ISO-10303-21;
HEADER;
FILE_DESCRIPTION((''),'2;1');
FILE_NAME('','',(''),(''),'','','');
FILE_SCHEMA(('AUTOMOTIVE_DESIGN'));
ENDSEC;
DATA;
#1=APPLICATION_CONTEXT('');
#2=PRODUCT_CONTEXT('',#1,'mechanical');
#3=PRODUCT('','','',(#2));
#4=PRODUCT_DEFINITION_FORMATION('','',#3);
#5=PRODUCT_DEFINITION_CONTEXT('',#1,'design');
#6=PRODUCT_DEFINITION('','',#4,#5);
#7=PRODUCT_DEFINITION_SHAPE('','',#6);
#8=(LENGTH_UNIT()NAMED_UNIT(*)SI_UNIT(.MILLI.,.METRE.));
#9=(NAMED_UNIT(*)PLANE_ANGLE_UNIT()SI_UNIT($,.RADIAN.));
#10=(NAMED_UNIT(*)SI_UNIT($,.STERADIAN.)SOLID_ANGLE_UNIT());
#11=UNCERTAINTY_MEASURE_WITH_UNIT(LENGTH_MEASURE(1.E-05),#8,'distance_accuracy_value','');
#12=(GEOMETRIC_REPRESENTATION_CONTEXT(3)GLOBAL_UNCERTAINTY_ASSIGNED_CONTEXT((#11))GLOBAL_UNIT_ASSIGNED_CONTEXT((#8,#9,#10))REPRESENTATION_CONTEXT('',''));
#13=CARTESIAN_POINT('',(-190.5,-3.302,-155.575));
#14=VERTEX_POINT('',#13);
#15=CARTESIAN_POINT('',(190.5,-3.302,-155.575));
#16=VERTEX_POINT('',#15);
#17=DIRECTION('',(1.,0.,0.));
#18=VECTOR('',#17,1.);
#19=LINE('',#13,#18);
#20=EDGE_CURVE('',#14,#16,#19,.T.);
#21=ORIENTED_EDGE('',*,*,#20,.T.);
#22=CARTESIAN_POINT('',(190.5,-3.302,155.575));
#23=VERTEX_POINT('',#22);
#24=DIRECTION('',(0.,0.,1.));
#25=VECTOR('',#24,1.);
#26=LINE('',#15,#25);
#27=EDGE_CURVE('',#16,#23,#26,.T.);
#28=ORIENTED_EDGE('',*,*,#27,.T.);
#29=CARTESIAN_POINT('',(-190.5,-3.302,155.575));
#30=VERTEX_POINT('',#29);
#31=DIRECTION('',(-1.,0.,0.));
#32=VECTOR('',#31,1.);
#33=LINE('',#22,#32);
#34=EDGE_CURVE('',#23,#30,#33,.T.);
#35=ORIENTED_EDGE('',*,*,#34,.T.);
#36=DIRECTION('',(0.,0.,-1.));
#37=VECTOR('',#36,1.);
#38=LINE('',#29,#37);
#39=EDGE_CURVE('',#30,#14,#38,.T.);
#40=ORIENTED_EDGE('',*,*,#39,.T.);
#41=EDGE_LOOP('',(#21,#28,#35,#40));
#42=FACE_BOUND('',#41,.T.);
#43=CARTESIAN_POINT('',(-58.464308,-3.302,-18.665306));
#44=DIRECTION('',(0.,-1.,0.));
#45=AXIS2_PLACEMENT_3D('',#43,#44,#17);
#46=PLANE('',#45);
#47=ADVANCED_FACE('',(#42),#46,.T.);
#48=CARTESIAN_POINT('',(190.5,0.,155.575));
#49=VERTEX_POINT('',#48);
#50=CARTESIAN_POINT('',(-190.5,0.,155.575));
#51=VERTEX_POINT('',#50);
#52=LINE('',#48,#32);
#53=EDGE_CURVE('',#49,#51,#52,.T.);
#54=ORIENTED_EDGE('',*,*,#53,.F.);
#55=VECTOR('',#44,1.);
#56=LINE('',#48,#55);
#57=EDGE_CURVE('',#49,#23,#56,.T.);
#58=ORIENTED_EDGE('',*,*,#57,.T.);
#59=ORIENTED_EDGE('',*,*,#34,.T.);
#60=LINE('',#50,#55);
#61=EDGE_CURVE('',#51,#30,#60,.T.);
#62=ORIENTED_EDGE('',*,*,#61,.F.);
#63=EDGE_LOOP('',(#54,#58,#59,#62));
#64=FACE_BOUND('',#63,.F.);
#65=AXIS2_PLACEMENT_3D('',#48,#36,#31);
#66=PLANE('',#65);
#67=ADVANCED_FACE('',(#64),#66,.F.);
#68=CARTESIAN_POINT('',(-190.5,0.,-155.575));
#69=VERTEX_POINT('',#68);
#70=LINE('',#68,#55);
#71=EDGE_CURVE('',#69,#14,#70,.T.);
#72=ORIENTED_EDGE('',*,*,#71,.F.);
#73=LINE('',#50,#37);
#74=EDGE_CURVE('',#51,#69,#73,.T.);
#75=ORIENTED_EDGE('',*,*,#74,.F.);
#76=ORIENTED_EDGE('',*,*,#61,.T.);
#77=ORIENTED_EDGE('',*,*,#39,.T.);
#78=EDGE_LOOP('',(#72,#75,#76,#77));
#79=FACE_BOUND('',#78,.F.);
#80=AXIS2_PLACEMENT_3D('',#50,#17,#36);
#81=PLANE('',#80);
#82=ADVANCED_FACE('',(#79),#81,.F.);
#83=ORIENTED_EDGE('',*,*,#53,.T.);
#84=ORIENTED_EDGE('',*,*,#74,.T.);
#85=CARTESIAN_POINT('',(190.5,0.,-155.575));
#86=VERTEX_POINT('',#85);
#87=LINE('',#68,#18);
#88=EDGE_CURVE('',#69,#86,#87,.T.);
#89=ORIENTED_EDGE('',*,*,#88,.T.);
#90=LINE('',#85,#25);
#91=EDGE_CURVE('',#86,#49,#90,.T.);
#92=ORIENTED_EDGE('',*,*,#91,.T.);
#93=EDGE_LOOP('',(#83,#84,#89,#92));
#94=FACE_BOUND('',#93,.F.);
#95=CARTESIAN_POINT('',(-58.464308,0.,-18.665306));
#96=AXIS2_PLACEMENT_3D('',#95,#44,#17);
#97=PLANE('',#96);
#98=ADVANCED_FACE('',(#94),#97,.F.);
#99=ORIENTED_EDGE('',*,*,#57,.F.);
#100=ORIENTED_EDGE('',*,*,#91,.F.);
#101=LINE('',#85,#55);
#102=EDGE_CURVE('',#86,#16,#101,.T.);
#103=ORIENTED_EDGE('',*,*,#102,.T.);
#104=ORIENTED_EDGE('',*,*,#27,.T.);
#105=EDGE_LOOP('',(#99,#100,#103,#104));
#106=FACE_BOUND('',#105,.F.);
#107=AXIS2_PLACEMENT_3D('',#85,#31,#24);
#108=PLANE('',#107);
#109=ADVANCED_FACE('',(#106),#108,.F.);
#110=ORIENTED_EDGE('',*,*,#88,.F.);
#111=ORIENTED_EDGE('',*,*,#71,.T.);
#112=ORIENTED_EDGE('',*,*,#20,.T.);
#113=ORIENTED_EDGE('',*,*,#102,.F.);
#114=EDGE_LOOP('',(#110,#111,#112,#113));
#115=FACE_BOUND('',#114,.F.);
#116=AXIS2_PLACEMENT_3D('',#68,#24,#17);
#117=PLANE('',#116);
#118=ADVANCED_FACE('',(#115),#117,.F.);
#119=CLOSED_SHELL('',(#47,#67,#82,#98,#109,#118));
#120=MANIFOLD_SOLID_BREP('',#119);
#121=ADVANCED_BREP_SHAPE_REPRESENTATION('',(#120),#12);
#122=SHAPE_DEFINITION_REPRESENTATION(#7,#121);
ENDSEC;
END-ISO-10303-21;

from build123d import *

# Parameters (mm, degrees)
F0_W     = 22.6885974407
F0_H     = 22.1197940409
F0_W_2   = 22.4054604769
F0_H_2   = 20.4182658345
F0_W_3   = 49.8421652913
F0_H_3   = 18.7167446129
F0_W_4   = 21.0188105702
F0_H_4   = 20.4182639718
F0_H_5   = 17.01522246
F0_H_6   = 21.2690271437
F0_H_7   = 22.915400815
F0_W_5   = 24.2707803845
F0_H_8   = 22.1197889186
F0_H_9   = 22.9705497622
F0_H_10  = 16.1644592881
F0_H_11  = 21.2690234184
F0_H_12  = 22.9705572128
F1_DEPTH = 3.302


with BuildPart() as f1:
    # F0 (on Front) → F1 (new body)
    with BuildSketch(Plane.XZ):
        Polygon((-47.1492672342, -29.7174975276), (-47.5814542907, -7.597708609), (-69.7490387884, -7.597708609), (-69.3785926643, -29.7174975276), align=None)
        Polygon((190.5, 91.0905823112), (190.5, 112.3596057296), (167.3408431252, 112.3596057296), (167.4002093941, 91.0905823112), align=None)
        Polygon((31.8565960935, -132.659599185), (31.2031726407, -109.6890419722), (6.6789926587, -109.6890419722), (7.2573604686, -132.659599185), align=None)
        Polygon((82.1086540818, -89.2707780004), (82.1086540818, -73.1063187122), (55.3784938051, -73.1063187122), (55.7321041705, -89.2707780004), align=None)
        Polygon((-22.7662731246, 48.5525242984), (-23.2138789712, 70.6723183393), (-49.1107316578, 70.6723183393), (-48.6785445012, 48.5525242984), align=None)
        with Locations((136.8772238493, -62.0464216918)):
            Rectangle(F0_W, F0_H)
        Polygon((51.7865563865, 91.0905823112), (51.3212796328, 112.3596057296), (24.8867479792, 112.3596057296), (25.4917693808, 91.0905823112), align=None)
        Polygon((103.1274646521, 70.6723183393), (103.1274646521, 84.2207627992), (86.5375326604, 70.6723183393), align=None)
        Polygon((53.9454410105, -7.597708609), (53.5359973797, 11.1190360039), (27.7666503699, 11.1190360039), (28.2990693172, -7.597708609), align=None)
        Polygon((30.6223520529, -89.2707780004), (30.1625357453, -73.1063187122), (5.7578887719, -73.1063187122), (6.1648881681, -89.2707780004), align=None)
        Polygon((-21.182437429, -29.7174975276), (-21.4296472383, -17.500878578), (-36.3887724828, -29.7174975276), align=None)
        Polygon((50.818780641, 135.3301554918), (82.1086540818, 135.3301554918), (82.1086540818, 155.575), (65.6074360013, 155.575), (50.3759086132, 155.575), align=None)
        Polygon((55.7321041705, -89.2707780004), (55.3784938051, -73.1063187122), (30.1625357453, -73.1063187122), (30.6223520529, -89.2707780004), align=None)
        Polygon((-89.6214877868, 73.1908816925), (-89.6714495749, 91.0905823112), (-111.5394885443, 91.0905823112), align=None)
        Polygon((167.9606270932, -109.6890419722), (167.9036354709, -89.2707780004), (148.2215225697, -89.2707780004), (148.2215225697, -109.6890419722), align=None)
        with Locations((114.3301948905, 38.3433913812)):
            Rectangle(F0_W_2, F0_H_2)
        Polygon((86.5375326604, 70.6723183393), (103.1274646521, 84.2207627992), (103.1274646521, 91.0905823112), (82.1086540818, 91.0905823112), (82.1086540818, 70.6723183393), align=None)
        Polygon((167.2731652274, 136.606418269), (167.2202199697, 155.575), (159.403860569, 155.575), (148.2215225697, 155.575), (148.2215225697, 135.3301554918), (165.7103944798, 135.3301554918), align=None)
        with Locations((-165.5789173543, 1.7606636975)):
            Rectangle(F0_W_3, F0_H_3)
        Polygon((82.1086540818, 135.3301554918), (103.1274646521, 135.3301554918), (103.1274646521, 155.575), (96.3208153844, 155.575), (82.1086540818, 155.575), align=None)
        Polygon((-89.6714495749, 91.0905823112), (-89.7308158438, 112.3596057296), (-116.3870543242, 112.3596057296), (-116.3870543242, 95.0494276981), (-111.5394885443, 91.0905823112), align=None)
        Polygon((167.5759335906, 28.134258464), (167.5189419631, 48.5525242984), (148.2215225697, 48.5525242984), (148.2215225697, 28.134258464), align=None)
        Polygon((190.5, -7.597708609), (190.5, 11.1190360039), (167.6234266161, 11.1190360039), (167.6756689439, -7.597708609), align=None)
        Polygon((-162.4403255326, -132.659599185), (-140.6578347087, -114.8705650121), (-140.6578347087, -109.6890419722), (-190.5, -109.6890419722), (-190.5, -132.659599185), align=None)
        Polygon((82.1086540818, -7.597708609), (82.1086540818, 11.1190360039), (53.5359973797, 11.1190360039), (53.9454410105, -7.597708609), align=None)
        Polygon((-67.270822823, -155.575), (-67.6545932761, -132.659599185), (-89.046916272, -132.659599185), (-88.9829546213, -155.575), (-81.0977313981, -155.575), align=None)
        Polygon((103.1274646521, -84.2207627992), (89.5179412803, -73.1063187122), (82.1086540818, -73.1063187122), (82.1086540818, -89.2707780004), (103.1274646521, -89.2707780004), align=None)
        Polygon((-68.0392874483, -109.6890419722), (-68.3812376711, -89.2707780004), (-89.168023498, -89.2707780004), (-89.1110318757, -109.6890419722), align=None)
        Polygon((-140.6578347087, -132.659599185), (-140.6578347087, -114.8705650121), (-162.4403255326, -132.659599185), align=None)
        Polygon((190.5, -132.659599185), (190.5, -109.6890419722), (167.9606270932, -109.6890419722), (168.0247426969, -132.659599185), align=None)
        Polygon((-23.2138789712, 70.6723183393), (-23.627053448, 91.0905823112), (-49.5096735029, 91.0905823112), (-49.1107316578, 70.6723183393), align=None)
        Polygon((-89.7949314267, 135.3301554918), (-72.1426906209, 135.3301554918), (-72.4817365408, 155.575), (-81.0977313981, 155.575), (-89.8514389992, 155.575), align=None)
        Polygon((-116.3870543242, 95.0494276981), (-116.3870543242, 112.3596057296), (-137.5831906893, 112.3596057296), align=None)
        Polygon((56.6812690414, -132.659599185), (56.1787698866, -109.6890419722), (31.2031726407, -109.6890419722), (31.8565960935, -132.659599185), align=None)
        with Locations((92.6180593669, -99.4799099863)):
            Rectangle(F0_W_4, F0_H_4)
        Polygon((-45.5867448013, -109.6890419722), (-45.9856866464, -89.2707780004), (-68.3812376711, -89.2707780004), (-68.0392874483, -109.6890419722), align=None)
        with Locations((92.6180593669, 1.7606636975)):
            Rectangle(F0_W_4, F0_H_3)
        Polygon((125.5329251289, -89.2707780004), (125.5329251289, -73.1063187122), (103.1274646521, -73.1063187122), (103.1274646521, -84.2207627992), (109.3111567351, -89.2707780004), align=None)
        Polygon((26.7018125018, 48.5525242984), (26.0725899687, 70.6723183393), (2.137735606, 70.6723183393), (2.6946823407, 48.5525242984), align=None)
        Polygon((54.4293289342, -29.7174975276), (53.9454410105, -7.597708609), (28.2990693172, -7.597708609), (28.7508552022, -23.4798650818), (36.3887724828, -29.7174975276), align=None)
        Polygon((-89.3342490926, -29.7174975276), (-89.395990025, -7.597708609), (-116.3870543242, -7.597708609), (-116.3870543242, -29.7174975276), align=None)
        Polygon((-116.3870543242, 135.3301554918), (-89.7949314267, 135.3301554918), (-89.8514389992, 155.575), (-98.7423928611, 155.575), (-108.9581176639, 155.575), (-116.3870543242, 155.575), align=None)
        with Locations((136.8772238493, 19.626647234)):
            Rectangle(F0_W, F0_H_5)
        Polygon((148.2215225697, 135.3301554918), (148.2215225697, 155.575), (136.8772238493, 155.575), (125.5329251289, 155.575), (125.5329251289, 135.3301554918), align=None)
        Polygon((-49.1107316578, 70.6723183393), (-49.5096735029, 91.0905823112), (-71.4017984508, 91.0905823112), (-71.059848228, 70.6723183393), align=None)
        with Locations((136.8772238493, -40.3520110995)):
            Rectangle(F0_W, F0_H_6)
        Polygon((-49.9252378945, 112.3596057296), (-50.3740475249, 135.3301554918), (-72.1426906209, 135.3301554918), (-71.7579965735, 112.3596057296), align=None)
        Polygon((-47.9471510336, 11.1190360039), (-48.2796026197, 28.134258464), (-70.3474517641, 28.134258464), (-70.0624932035, 11.1190360039), align=None)
        Polygon((-134.313112619, -109.6890419722), (-116.3870543242, -95.0494276981), (-116.3870543242, -89.2707780004), (-140.6578347087, -89.2707780004), (-140.6578347087, -109.6890419722), align=None)
        Polygon((82.1086540818, -29.7174975276), (82.1086540818, -7.597708609), (53.9454410105, -7.597708609), (54.4293289342, -29.7174975276), align=None)
        Polygon((-46.7337027697, -50.9865246713), (-46.9802648754, -38.3672163149), (-62.4324791894, -50.9865246713), align=None)
        Polygon((167.7374098763, -29.7174975276), (167.6756689439, -7.597708609), (148.2215225697, -7.597708609), (148.2215225697, -29.7174975276), align=None)
        with Locations((-165.5789173543, -62.0464216918)):
            Rectangle(F0_W_3, F0_H)
        Polygon((167.3408431252, 112.3596057296), (167.2767275423, 135.3301554918), (165.7103944798, 135.3301554918), (148.2215225697, 121.0475767652), (148.2215225697, 112.3596057296), align=None)
        with Locations((92.6180593669, -144.1172995925)):
            Rectangle(F0_W_4, F0_H_7)
        Polygon((-70.3474517641, 28.134258464), (-70.6894020181, 48.5525242984), (-89.5527170058, 48.5525242984), (-89.4957253783, 28.134258464), align=None)
        with Locations((114.3301948905, -144.1172995925)):
            Rectangle(F0_W_2, F0_H_7)
        with Locations((-128.5224445164, 59.6124213189)):
            Rectangle(F0_W_5, F0_H)
        Polygon((190.5, 28.134258464), (190.5, 48.5525242984), (167.5189419631, 48.5525242984), (167.5759335906, 28.134258464), align=None)
        Polygon((1.6236311154, 91.0905823112), (1.0881056435, 112.3596057296), (-24.0574434966, 112.3596057296), (-23.627053448, 91.0905823112), align=None)
        Polygon((26.0725899687, 70.6723183393), (25.4917693808, 91.0905823112), (1.6236311154, 91.0905823112), (2.137735606, 70.6723183393), align=None)
        Polygon((-116.3870543242, 112.3596057296), (-116.3870543242, 135.3301554918), (-140.6578347087, 135.3301554918), (-140.6578347087, 114.8705650121), (-137.5831906893, 112.3596057296), align=None)
        Polygon((55.3784938051, -73.1063187122), (54.8946057694, -50.9865246713), (29.5333132121, -50.9865246713), (30.1625357453, -73.1063187122), align=None)
        Polygon((167.5189419631, 48.5525242984), (167.4572010164, 70.6723183393), (148.2215225697, 70.6723183393), (148.2215225697, 48.5525242984), align=None)
        Polygon((52.7171101383, 48.5525242984), (52.2332221026, 70.6723183393), (26.0725899687, 70.6723183393), (26.7018125018, 48.5525242984), align=None)
        Polygon((167.4572010164, 70.6723183393), (167.4002093941, 91.0905823112), (148.2215225697, 91.0905823112), (148.2215225697, 70.6723183393), align=None)
        Polygon((190.5, -89.2707780004), (190.5, -73.1063187122), (167.8585171024, -73.1063187122), (167.9036354709, -89.2707780004), align=None)
        Polygon((6.6789926587, -109.6890419722), (6.1648881681, -89.2707780004), (-19.9773449913, -89.2707780004), (-19.5641705145, -109.6890419722), align=None)
        Polygon((167.6234266161, 11.1190360039), (167.5759335906, 28.134258464), (148.2215225697, 28.134258464), (148.2215225697, 11.1190360039), align=None)
        with Locations((-165.5789173543, 19.626647234)):
            Rectangle(F0_W_3, F0_H_5)
        Polygon((190.5, -29.7174975276), (190.5, -7.597708609), (167.6756689439, -7.597708609), (167.7374098763, -29.7174975276), align=None)
        with Locations((-165.5789173543, 38.3433913812)):
            Rectangle(F0_W_3, F0_H_2)
        Polygon((32.5084505603, -155.575), (31.8565960935, -132.659599185), (7.2573604686, -132.659599185), (7.8343395144, -155.575), align=None)
        with Locations((114.3301948905, -62.0464216918)):
            Rectangle(F0_W_2, F0_H)
        with Locations((114.3301948905, -40.3520110995)):
            Rectangle(F0_W_2, F0_H_6)
        Polygon((-47.5814542907, -7.597708609), (-47.9471510336, 11.1190360039), (-70.0624932035, 11.1190360039), (-69.7490387884, -7.597708609), align=None)
        Polygon((82.1086540818, 70.6723183393), (82.1086540818, 91.0905823112), (51.7865563865, 91.0905823112), (52.2332221026, 70.6723183393), align=None)
        Polygon((-89.2748828133, -50.9865246713), (-89.3342490926, -29.7174975276), (-116.3870543242, -29.7174975276), (-116.3870543242, -50.9865246713), align=None)
        Polygon((-89.4482323528, 11.1190360039), (-89.4957253783, 28.134258464), (-116.3870543242, 28.134258464), (-116.3870543242, 11.1190360039), align=None)
        Polygon((57.1825616062, -155.575), (56.6812690414, -132.659599185), (31.8565960935, -132.659599185), (32.5084505603, -155.575), align=None)
        with Locations((92.6180593669, -18.6576030683)):
            Rectangle(F0_W_4, F0_H_8)
        Polygon((-69.7490387884, -7.597708609), (-70.0624932035, 11.1190360039), (-89.4482323528, 11.1190360039), (-89.395990025, -7.597708609), align=None)
        with Locations((92.6180593669, 123.8448806107)):
            Rectangle(F0_W_4, F0_H_9)
        Polygon((167.2731652274, 136.606418269), (190.5, 155.575), (167.2202199697, 155.575), align=None)
        with Locations((-128.5224445164, -81.1885483563)):
            Rectangle(F0_W_5, F0_H_10)
        Polygon((-48.5038500365, 39.6114775298), (-59.4520705695, 48.5525242984), (-70.6894020181, 48.5525242984), (-70.3474517641, 28.134258464), (-48.2796026197, 28.134258464), align=None)
        Polygon((30.1625357453, -73.1063187122), (29.5333132121, -50.9865246713), (5.2009420372, -50.9865246713), (5.7578887719, -73.1063187122), align=None)
        Polygon((148.2215225697, -121.0475767652), (148.2215225697, -109.6890419722), (134.313112619, -109.6890419722), align=None)
        Polygon((-48.6785445012, 48.5525242984), (-49.1107316578, 70.6723183393), (-71.059848228, 70.6723183393), (-70.8452255019, 57.8569341599), (-59.4520705695, 48.5525242984), align=None)
        Polygon((82.1086540818, 91.0905823112), (82.1086540818, 112.3596057296), (51.3212796328, 112.3596057296), (51.7865563865, 91.0905823112), align=None)
        Polygon((125.5329251289, -102.518555522), (109.3111567351, -89.2707780004), (103.1274646521, -89.2707780004), (103.1274646521, -109.6890419722), (125.5329251289, -109.6890419722), align=None)
        Polygon((-89.046916272, -132.659599185), (-89.1110318757, -109.6890419722), (-116.3870543242, -109.6890419722), (-116.3870543242, -132.659599185), align=None)
        Polygon((148.2215225697, -121.0475767652), (134.313112619, -109.6890419722), (125.5329251289, -109.6890419722), (125.5329251289, -132.659599185), (148.2215225697, -132.659599185), align=None)
        Polygon((-68.3812376711, -89.2707780004), (-68.6519482693, -73.1063187122), (-89.2131418666, -73.1063187122), (-89.168023498, -89.2707780004), align=None)
        with Locations((114.3301948905, 59.6124213189)):
            Rectangle(F0_W_2, F0_H)
        Polygon((25.4917693808, 91.0905823112), (24.8867479792, 112.3596057296), (1.0881056435, 112.3596057296), (1.6236311154, 91.0905823112), align=None)
        Polygon((59.4520705695, 48.5525242984), (82.1086540818, 67.0554008335), (82.1086540818, 70.6723183393), (52.2332221026, 70.6723183393), (52.7171101383, 48.5525242984), align=None)
        Polygon((-109.3111567351, -89.2707780004), (-89.5179412803, -73.1063187122), (-116.3870543242, -73.1063187122), (-116.3870543242, -89.2707780004), align=None)
        Polygon((82.1086540818, -132.659599185), (82.1086540818, -109.6890419722), (56.1787698866, -109.6890419722), (56.6812690414, -132.659599185), align=None)
        with Locations((114.3301948905, 123.8448806107)):
            Rectangle(F0_W_2, F0_H_9)
        Polygon((28.7508552022, -23.4798650818), (9.303316664, -7.597708609), (4.1084698657, -7.597708609), (4.6654164715, -29.7174975276), (28.9282917046, -29.7174975276), align=None)
        Polygon((-62.4324791894, -50.9865246713), (-46.9802648754, -38.3672163149), (-47.1492672342, -29.7174975276), (-69.3785926643, -29.7174975276), (-69.0223944792, -50.9865246713), align=None)
        Polygon((190.5, 112.3596057296), (190.5, 135.3301554918), (167.2767275423, 135.3301554918), (167.3408431252, 112.3596057296), align=None)
        Polygon((-89.6214877868, 73.1908816925), (-111.5394885443, 91.0905823112), (-116.3870543242, 91.0905823112), (-116.3870543242, 70.6723183393), (-89.6144579525, 70.6723183393), align=None)
        Polygon((82.1086540818, -50.9865246713), (82.1086540818, -29.7174975276), (54.4293289342, -29.7174975276), (54.7574903207, -44.7186170952), (62.4324791894, -50.9865246713), align=None)
        Polygon((82.1086540818, 112.3596057296), (82.1086540818, 135.3301554918), (50.818780641, 135.3301554918), (51.3212796328, 112.3596057296), align=None)
        Polygon((167.9036354709, -89.2707780004), (167.8585171024, -73.1063187122), (148.2215225697, -73.1063187122), (148.2215225697, -89.2707780004), align=None)
        with Locations((114.3301948905, -18.6576030683)):
            Rectangle(F0_W_2, F0_H_8)
        Polygon((141.1656588316, -155.575), (148.2215225697, -155.575), (148.2215225697, -132.659599185), (125.5329251289, -132.659599185), (125.5329251289, -155.575), align=None)
        with Locations((-165.5789173543, -40.3520110995)):
            Rectangle(F0_W_3, F0_H_6)
        Polygon((2.137735606, 70.6723183393), (1.6236311154, 91.0905823112), (-23.627053448, 91.0905823112), (-23.2138789712, 70.6723183393), align=None)
        Polygon((4.6654164715, -29.7174975276), (4.1084698657, -7.597708609), (-9.303316664, -7.597708609), (-21.4296472383, -17.500878578), (-21.182437429, -29.7174975276), align=None)
        Polygon((148.2215225697, 91.0905823112), (148.2215225697, 112.3596057296), (137.5831906893, 112.3596057296), (125.5329251289, 102.518555522), (125.5329251289, 91.0905823112), align=None)
        Polygon((-140.6578347087, 114.8705650121), (-140.6578347087, 135.3301554918), (-165.7103944798, 135.3301554918), align=None)
        with Locations((-128.5224445164, -62.0464216918)):
            Rectangle(F0_W_5, F0_H)
        Polygon((-22.3530986101, 28.134258464), (-22.7662731246, 48.5525242984), (-48.6785445012, 48.5525242984), (-48.5038500365, 39.6114775298), (-34.4501124049, 28.134258464), align=None)
        Polygon((1.0881056435, 112.3596057296), (0.5097380212, 135.3301554918), (-24.5222648396, 135.3301554918), (-24.0574434966, 112.3596057296), align=None)
        Polygon((82.1086540818, 28.134258464), (82.1086540818, 48.5525242984), (59.4520705695, 48.5525242984), (52.8353199169, 43.1488445988), (53.1637758952, 28.134258464), align=None)
        Polygon((82.1086540818, -155.575), (82.1086540818, -132.659599185), (56.6812690414, -132.659599185), (57.1825616062, -155.575), (63.8704672456, -155.575), align=None)
        Polygon((125.5329251289, 70.6723183393), (125.5329251289, 91.0905823112), (111.5394885443, 91.0905823112), (103.1274646521, 84.2207627992), (103.1274646521, 70.6723183393), align=None)
        Polygon((-19.5641705145, -109.6890419722), (-19.9773449913, -89.2707780004), (-45.9856866464, -89.2707780004), (-45.5867448013, -109.6890419722), align=None)
        Polygon((3.2087868782, 28.134258464), (2.6946823407, 48.5525242984), (-22.7662731246, 48.5525242984), (-22.3530986101, 28.134258464), align=None)
        Polygon((-69.3785926643, -29.7174975276), (-69.7490387884, -7.597708609), (-89.395990025, -7.597708609), (-89.3342490926, -29.7174975276), align=None)
        Polygon((190.5, 135.3301554918), (190.5, 155.575), (167.2731652274, 136.606418269), (167.2767275423, 135.3301554918), align=None)
        with Locations((-165.5789173543, 80.8814503253)):
            Rectangle(F0_W_3, F0_H_4)
        Polygon((-49.5096735029, 91.0905823112), (-49.9252378945, 112.3596057296), (-71.7579965735, 112.3596057296), (-71.4017984508, 91.0905823112), align=None)
        Polygon((-89.168023498, -89.2707780004), (-89.2131418666, -73.1063187122), (-89.5179412803, -73.1063187122), (-109.3111567351, -89.2707780004), align=None)
        Polygon((-22.1498279695, 18.0890261751), (-34.4501124049, 28.134258464), (-48.2796026197, 28.134258464), (-47.9471510336, 11.1190360039), (-22.0087864958, 11.1190360039), align=None)
        Polygon((167.7967761557, -50.9865246713), (167.7374098763, -29.7174975276), (148.2215225697, -29.7174975276), (148.2215225697, -50.9865246713), align=None)
        Polygon((82.1086540818, 11.1190360039), (82.1086540818, 28.134258464), (53.1637758952, 28.134258464), (53.5359973797, 11.1190360039), align=None)
        Polygon((-88.9829546213, -155.575), (-89.046916272, -132.659599185), (-116.3870543242, -132.659599185), (-116.3870543242, -155.575), (-108.9581176639, -155.575), align=None)
        with Locations((-165.5789173543, -81.1885483563)):
            Rectangle(F0_W_3, F0_H_10)
        Polygon((-71.4017984508, 91.0905823112), (-71.7579965735, 112.3596057296), (-89.7308158438, 112.3596057296), (-89.6714495749, 91.0905823112), align=None)
        Polygon((137.5831906893, 112.3596057296), (148.2215225697, 121.0475767652), (148.2215225697, 135.3301554918), (125.5329251289, 135.3301554918), (125.5329251289, 112.3596057296), align=None)
        Polygon((-89.5179412803, -73.1063187122), (-89.2138350726, -72.8579653093), (-89.2748828133, -50.9865246713), (-116.3870543242, -50.9865246713), (-116.3870543242, -73.1063187122), align=None)
        Polygon((190.5, -50.9865246713), (190.5, -29.7174975276), (167.7374098763, -29.7174975276), (167.7967761557, -50.9865246713), align=None)
        Polygon((82.1086540818, 48.5525242984), (82.1086540818, 67.0554008335), (59.4520705695, 48.5525242984), align=None)
        Polygon((-36.3887724828, -29.7174975276), (-21.4296472383, -17.500878578), (-21.6300431719, -7.597708609), (-47.5814542907, -7.597708609), (-47.1492672342, -29.7174975276), align=None)
        Polygon((167.4002093941, 91.0905823112), (167.3408431252, 112.3596057296), (148.2215225697, 112.3596057296), (148.2215225697, 91.0905823112), align=None)
        with Locations((136.8772238493, -81.1885483563)):
            Rectangle(F0_W, F0_H_10)
        with Locations((136.8772238493, 59.6124213189)):
            Rectangle(F0_W, F0_H)
        Polygon((0.5097380212, 135.3301554918), (24.2333247384, 135.3301554918), (23.657437263, 155.575), (9.498972144, 155.575), (0, 155.575), align=None)
        Polygon((24.2333247384, 135.3301554918), (50.818780641, 135.3301554918), (50.3759086132, 155.575), (37.8159023821, 155.575), (23.657437263, 155.575), align=None)
        Polygon((-67.6545932761, -132.659599185), (-68.0392874483, -109.6890419722), (-89.1110318757, -109.6890419722), (-89.046916272, -132.659599185), align=None)
        Polygon((148.2215225697, 121.0475767652), (165.7103944798, 135.3301554918), (148.2215225697, 135.3301554918), align=None)
        Polygon((-69.0223944792, -50.9865246713), (-69.3785926643, -29.7174975276), (-89.3342490926, -29.7174975276), (-89.2748828133, -50.9865246713), align=None)
        Polygon((24.8867479792, 112.3596057296), (24.2333247384, 135.3301554918), (0.5097380212, 135.3301554918), (1.0881056435, 112.3596057296), align=None)
        Polygon((167.8585171024, -73.1063187122), (167.7967761557, -50.9865246713), (148.2215225697, -50.9865246713), (148.2215225697, -73.1063187122), align=None)
        with Locations((92.6180593669, 19.626647234)):
            Rectangle(F0_W_4, F0_H_5)
        Polygon((168.0247426969, -132.659599185), (167.9606270932, -109.6890419722), (148.2215225697, -109.6890419722), (148.2215225697, -121.0475767652), (162.4403255326, -132.659599185), align=None)
        Polygon((34.4501124049, 28.134258464), (52.8353199169, 43.1488445988), (52.7171101383, 48.5525242984), (26.7018125018, 48.5525242984), (27.2826331427, 28.134258464), align=None)
        with Locations((136.8772238493, -18.6576030683)):
            Rectangle(F0_W, F0_H_8)
        Polygon((-44.6902029216, -155.575), (-45.1379350254, -132.659599185), (-67.6545932761, -132.659599185), (-67.270822823, -155.575), align=None)
        Polygon((190.5, 11.1190360039), (190.5, 28.134258464), (167.5759335906, 28.134258464), (167.6234266161, 11.1190360039), align=None)
        Polygon((29.5333132121, -50.9865246713), (28.9282917046, -29.7174975276), (4.6654164715, -29.7174975276), (5.2009420372, -50.9865246713), align=None)
        with Locations((92.6180593669, 101.7250940204)):
            Rectangle(F0_W_4, F0_H_11)
        Polygon((-70.0624932035, 11.1190360039), (-70.3474517641, 28.134258464), (-89.4957253783, 28.134258464), (-89.4482323528, 11.1190360039), align=None)
        Polygon((31.2031726407, -109.6890419722), (30.6223520529, -89.2707780004), (6.1648881681, -89.2707780004), (6.6789926587, -109.6890419722), align=None)
        Polygon((103.1274646521, 135.3301554918), (125.5329251289, 135.3301554918), (125.5329251289, 155.575), (111.637160182, 155.575), (103.1274646521, 155.575), align=None)
        Polygon((56.1787698866, -109.6890419722), (55.7321041705, -89.2707780004), (30.6223520529, -89.2707780004), (31.2031726407, -109.6890419722), align=None)
        Polygon((51.3212796328, 112.3596057296), (50.818780641, 135.3301554918), (24.2333247384, 135.3301554918), (24.8867479792, 112.3596057296), align=None)
        Polygon((-89.4957253783, 28.134258464), (-89.5527170058, 48.5525242984), (-116.3870543242, 48.5525242984), (-116.3870543242, 28.134258464), align=None)
        with Locations((92.6180593669, -40.3520110995)):
            Rectangle(F0_W_4, F0_H_6)
        Polygon((-116.3870543242, -109.6890419722), (-116.3870543242, -95.0494276981), (-134.313112619, -109.6890419722), align=None)
        with Locations((-128.5224445164, 38.3433913812)):
            Rectangle(F0_W_5, F0_H_2)
        Polygon((125.5329251289, -102.518555522), (125.5329251289, -89.2707780004), (109.3111567351, -89.2707780004), align=None)
        with Locations((136.8772238493, 80.8814503253)):
            Rectangle(F0_W, F0_H_4)
        Polygon((148.2215225697, -155.575), (168.0887043476, -155.575), (168.037501384, -137.2306261303), (162.4403255326, -132.659599185), (148.2215225697, -132.659599185), align=None)
        Polygon((-19.0993490207, -132.659599185), (-19.5641705145, -109.6890419722), (-45.5867448013, -109.6890419722), (-45.1379350254, -132.659599185), align=None)
        Polygon((-89.2138350726, -72.8579653093), (-68.9334806791, -56.2956758879), (-69.0223944792, -50.9865246713), (-89.2748828133, -50.9865246713), align=None)
        with Locations((-128.5224445164, -18.6576030683)):
            Rectangle(F0_W_5, F0_H_8)
        Polygon((-71.7579965735, 112.3596057296), (-72.1426906209, 135.3301554918), (-89.7949314267, 135.3301554918), (-89.7308158438, 112.3596057296), align=None)
        Polygon((-190.5, -155.575), (-162.4403255326, -132.659599185), (-190.5, -132.659599185), align=None)
        Polygon((-20.752047305, -50.9865246713), (-21.182437429, -29.7174975276), (-36.3887724828, -29.7174975276), (-46.9802648754, -38.3672163149), (-46.7337027697, -50.9865246713), align=None)
        with Locations((-128.5224445164, 19.626647234)):
            Rectangle(F0_W_5, F0_H_5)
        Polygon((103.1274646521, -73.1063187122), (103.1274646521, -50.9865246713), (82.1086540818, -50.9865246713), (82.1086540818, -67.0554008335), (89.5179412803, -73.1063187122), align=None)
        Polygon((27.2826331427, 28.134258464), (26.7018125018, 48.5525242984), (2.6946823407, 48.5525242984), (3.2087868782, 28.134258464), align=None)
        with Locations((-128.5224445164, 80.8814503253)):
            Rectangle(F0_W_5, F0_H_4)
        with Locations((-165.5789173543, -18.6576030683)):
            Rectangle(F0_W_3, F0_H_8)
        Polygon((-140.6578347087, 114.8705650121), (-165.7103944798, 135.3301554918), (-190.5, 135.3301554918), (-190.5, 112.3596057296), (-140.6578347087, 112.3596057296), align=None)
        Polygon((52.2332221026, 70.6723183393), (51.7865563865, 91.0905823112), (25.4917693808, 91.0905823112), (26.0725899687, 70.6723183393), align=None)
        Polygon((5.7578887719, -73.1063187122), (5.2009420372, -50.9865246713), (-20.752047305, -50.9865246713), (-20.3044414584, -73.1063187122), align=None)
        Polygon((-23.627053448, 91.0905823112), (-24.0574434966, 112.3596057296), (-49.9252378945, 112.3596057296), (-49.5096735029, 91.0905823112), align=None)
        with Locations((136.8772238493, 1.7606636975)):
            Rectangle(F0_W, F0_H_3)
        Polygon((-89.7308158438, 112.3596057296), (-89.7949314267, 135.3301554918), (-116.3870543242, 135.3301554918), (-116.3870543242, 112.3596057296), align=None)
        Polygon((-50.3740475249, 135.3301554918), (-24.5222648396, 135.3301554918), (-24.931930081, 155.575), (-36.4088974893, 155.575), (-50.7696010172, 155.575), align=None)
        Polygon((-24.0574434966, 112.3596057296), (-24.5222648396, 135.3301554918), (-50.3740475249, 135.3301554918), (-49.9252378945, 112.3596057296), align=None)
        Polygon((-89.1110318757, -109.6890419722), (-89.168023498, -89.2707780004), (-109.3111567351, -89.2707780004), (-116.3870543242, -95.0494276981), (-116.3870543242, -109.6890419722), align=None)
        Polygon((-21.6300431719, -7.597708609), (-22.0087864958, 11.1190360039), (-47.9471510336, 11.1190360039), (-47.5814542907, -7.597708609), align=None)
        Polygon((7.2573604686, -132.659599185), (6.6789926587, -109.6890419722), (-19.5641705145, -109.6890419722), (-19.0993490207, -132.659599185), align=None)
        Polygon((190.5, -109.6890419722), (190.5, -89.2707780004), (167.9036354709, -89.2707780004), (167.9606270932, -109.6890419722), align=None)
        Polygon((-18.6356436461, -155.575), (-19.0993490207, -132.659599185), (-45.1379350254, -132.659599185), (-44.6902029216, -155.575), (-35.5580672622, -155.575), align=None)
        Polygon((111.5394885443, 91.0905823112), (125.5329251289, 102.518555522), (125.5329251289, 112.3596057296), (103.1274646521, 112.3596057296), (103.1274646521, 91.0905823112), align=None)
        Polygon((-70.8452255019, 57.8569341599), (-86.5375326604, 70.6723183393), (-89.6144579525, 70.6723183393), (-89.5527170058, 48.5525242984), (-70.6894020181, 48.5525242984), align=None)
        Polygon((6.1648881681, -89.2707780004), (5.7578887719, -73.1063187122), (-20.3044414584, -73.1063187122), (-19.9773449913, -89.2707780004), align=None)
        with Locations((-165.5789173543, 101.7250940204)):
            Rectangle(F0_W_3, F0_H_11)
        Polygon((103.1274646521, 48.5525242984), (103.1274646521, 70.6723183393), (86.5375326604, 70.6723183393), (82.1086540818, 67.0554008335), (82.1086540818, 48.5525242984), align=None)
        with Locations((114.3301948905, 19.626647234)):
            Rectangle(F0_W_2, F0_H_5)
        with Locations((-165.5789173543, -99.4799099863)):
            Rectangle(F0_W_3, F0_H_4)
        Polygon((190.5, -155.575), (190.5, -132.659599185), (168.0247426969, -132.659599185), (168.037501384, -137.2306261303), align=None)
        Polygon((-140.6578347087, -155.575), (-140.6578347087, -132.659599185), (-162.4403255326, -132.659599185), (-190.5, -155.575), (-174.0945279598, -155.575), (-153.2508730888, -155.575), align=None)
        with Locations((114.3301948905, 1.7606636975)):
            Rectangle(F0_W_2, F0_H_3)
        Polygon((190.5, 48.5525242984), (190.5, 70.6723183393), (167.4572010164, 70.6723183393), (167.5189419631, 48.5525242984), align=None)
        Polygon((-19.9773449913, -89.2707780004), (-20.3044414584, -73.1063187122), (-46.3015156132, -73.1063187122), (-45.9856866464, -89.2707780004), align=None)
        Polygon((-89.395990025, -7.597708609), (-89.4482323528, 11.1190360039), (-116.3870543242, 11.1190360039), (-116.3870543242, -7.597708609), align=None)
        Polygon((-116.3870543242, -132.659599185), (-116.3870543242, -109.6890419722), (-134.313112619, -109.6890419722), (-140.6578347087, -114.8705650121), (-140.6578347087, -132.659599185), align=None)
        with Locations((136.8772238493, 38.3433913812)):
            Rectangle(F0_W, F0_H_2)
        Polygon((82.1086540818, -109.6890419722), (82.1086540818, -89.2707780004), (55.7321041705, -89.2707780004), (56.1787698866, -109.6890419722), align=None)
        Polygon((-140.6578347087, 135.3301554918), (-116.3870543242, 135.3301554918), (-116.3870543242, 155.575), (-128.0647963285, 155.575), (-140.6578347087, 155.575), align=None)
        Polygon((82.1086540818, -67.0554008335), (62.4324791894, -50.9865246713), (54.8946057694, -50.9865246713), (55.3784938051, -73.1063187122), (82.1086540818, -73.1063187122), align=None)
        Polygon((-116.3870543242, 95.0494276981), (-137.5831906893, 112.3596057296), (-140.6578347087, 112.3596057296), (-140.6578347087, 91.0905823112), (-116.3870543242, 91.0905823112), align=None)
        with Locations((-128.5224445164, -40.3520110995)):
            Rectangle(F0_W_5, F0_H_6)
        Polygon((53.1637758952, 28.134258464), (52.8353199169, 43.1488445988), (34.4501124049, 28.134258464), align=None)
        Polygon((-20.3044414584, -73.1063187122), (-20.752047305, -50.9865246713), (-46.7337027697, -50.9865246713), (-46.3015156132, -73.1063187122), align=None)
        Polygon((190.5, 70.6723183393), (190.5, 91.0905823112), (167.4002093941, 91.0905823112), (167.4572010164, 70.6723183393), align=None)
        Polygon((-190.5, 135.3301554918), (-165.7103944798, 135.3301554918), (-190.5, 155.575), align=None)
        Polygon((53.5359973797, 11.1190360039), (53.1637758952, 28.134258464), (34.4501124049, 28.134258464), (27.4453605747, 22.413711136), (27.7666503699, 11.1190360039), align=None)
        Polygon((5.2009420372, -50.9865246713), (4.6654164715, -29.7174975276), (-21.182437429, -29.7174975276), (-20.752047305, -50.9865246713), align=None)
        Polygon((-71.059848228, 70.6723183393), (-71.4017984508, 91.0905823112), (-89.6714495749, 91.0905823112), (-89.6214877868, 73.1908816925), (-86.5375326604, 70.6723183393), align=None)
        Polygon((-45.9856866464, -89.2707780004), (-46.3015156132, -73.1063187122), (-68.6519482693, -73.1063187122), (-68.3812376711, -89.2707780004), align=None)
        Polygon((54.7574903207, -44.7186170952), (54.4293289342, -29.7174975276), (36.3887724828, -29.7174975276), align=None)
        Polygon((148.2215225697, -109.6890419722), (148.2215225697, -89.2707780004), (125.5329251289, -89.2707780004), (125.5329251289, -102.518555522), (134.313112619, -109.6890419722), align=None)
        Polygon((-24.5222648396, 135.3301554918), (0.5097380212, 135.3301554918), (0, 155.575), (-13.4549626727, 155.575), (-24.931930081, 155.575), align=None)
        with Locations((92.6180593669, 38.3433913812)):
            Rectangle(F0_W_4, F0_H_2)
        Polygon((-165.7103944798, 135.3301554918), (-140.6578347087, 135.3301554918), (-140.6578347087, 155.575), (-153.2508730888, 155.575), (-169.7520911694, 155.575), (-190.5, 155.575), align=None)
        with Locations((-128.5224445164, 1.7606636975)):
            Rectangle(F0_W_5, F0_H_3)
        Polygon((190.5, -73.1063187122), (190.5, -50.9865246713), (167.7967761557, -50.9865246713), (167.8585171024, -73.1063187122), align=None)
        Polygon((54.7574903207, -44.7186170952), (36.3887724828, -29.7174975276), (28.9282917046, -29.7174975276), (29.5333132121, -50.9865246713), (54.8946057694, -50.9865246713), align=None)
        Polygon((167.6756689439, -7.597708609), (167.6234266161, 11.1190360039), (148.2215225697, 11.1190360039), (148.2215225697, -7.597708609), align=None)
        with Locations((-128.5224445164, -144.1172995925)):
            Rectangle(F0_W_5, F0_H_7)
        with Locations((114.3301948905, -121.1743205786)):
            Rectangle(F0_W_2, F0_H_12)
        Polygon((-46.3015156132, -73.1063187122), (-46.7337027697, -50.9865246713), (-62.4324791894, -50.9865246713), (-68.9334806791, -56.2956758879), (-68.6519482693, -73.1063187122), align=None)
        Polygon((7.8343395144, -155.575), (7.2573604686, -132.659599185), (-19.0993490207, -132.659599185), (-18.6356436461, -155.575), align=None)
        with Locations((-165.5789173543, 59.6124213189)):
            Rectangle(F0_W_3, F0_H)
        Polygon((-89.5527170058, 48.5525242984), (-89.6144579525, 70.6723183393), (-116.3870543242, 70.6723183393), (-116.3870543242, 48.5525242984), align=None)
        with Locations((92.6180593669, -121.1743205786)):
            Rectangle(F0_W_4, F0_H_12)
        Polygon((-72.1426906209, 135.3301554918), (-50.3740475249, 135.3301554918), (-50.7696010172, 155.575), (-63.7968853116, 155.575), (-72.4817365408, 155.575), align=None)
        Polygon((-45.1379350254, -132.659599185), (-45.5867448013, -109.6890419722), (-68.0392874483, -109.6890419722), (-67.6545932761, -132.659599185), align=None)
        Polygon((2.6946823407, 48.5525242984), (2.137735606, 70.6723183393), (-23.2138789712, 70.6723183393), (-22.7662731246, 48.5525242984), align=None)
        Polygon((3.999407865, -3.2661830897), (3.8382455607, 3.1345672079), (0, 0), align=None)
        Polygon((-68.6519482693, -73.1063187122), (-68.9334806791, -56.2956758879), (-89.2138350726, -72.8579653093), (-89.2131418666, -73.1063187122), align=None)
        Polygon((103.1274646521, -84.2207627992), (103.1274646521, -73.1063187122), (89.5179412803, -73.1063187122), align=None)
        Polygon((-140.6578347087, 112.3596057296), (-137.5831906893, 112.3596057296), (-140.6578347087, 114.8705650121), align=None)
        Polygon((28.2990693172, -7.597708609), (27.7666503699, 11.1190360039), (13.6151461273, 11.1190360039), (3.8382455607, 3.1345672079), (3.999407865, -3.2661830897), (9.303316664, -7.597708609), align=None)
        Polygon((-9.303316664, -7.597708609), (0, 0), (-13.6151461273, 11.1190360039), (-22.0087864958, 11.1190360039), (-21.6300431719, -7.597708609), align=None)
        Polygon((-116.3870543242, -95.0494276981), (-109.3111567351, -89.2707780004), (-116.3870543242, -89.2707780004), align=None)
        Polygon((28.9282917046, -29.7174975276), (36.3887724828, -29.7174975276), (28.7508552022, -23.4798650818), align=None)
        Polygon((13.6151461273, 11.1190360039), (27.4453605747, 22.413711136), (27.2826331427, 28.134258464), (3.2087868782, 28.134258464), (3.6372073496, 11.1190360039), align=None)
        Polygon((-21.4296472383, -17.500878578), (-9.303316664, -7.597708609), (-21.6300431719, -7.597708609), align=None)
        Polygon((-48.2796026197, 28.134258464), (-34.4501124049, 28.134258464), (-48.5038500365, 39.6114775298), align=None)
        Polygon((103.1274646521, 84.2207627992), (111.5394885443, 91.0905823112), (103.1274646521, 91.0905823112), align=None)
        Polygon((-70.8452255019, 57.8569341599), (-71.059848228, 70.6723183393), (-86.5375326604, 70.6723183393), align=None)
        Polygon((82.1086540818, -73.1063187122), (89.5179412803, -73.1063187122), (82.1086540818, -67.0554008335), align=None)
        Polygon((-140.6578347087, -114.8705650121), (-134.313112619, -109.6890419722), (-140.6578347087, -109.6890419722), align=None)
        Polygon((-89.6144579525, 70.6723183393), (-86.5375326604, 70.6723183393), (-89.6214877868, 73.1908816925), align=None)
        Polygon((52.8353199169, 43.1488445988), (59.4520705695, 48.5525242984), (52.7171101383, 48.5525242984), align=None)
        Polygon((3.8382455607, 3.1345672079), (13.6151461273, 11.1190360039), (3.6372073496, 11.1190360039), align=None)
        Polygon((82.1086540818, 67.0554008335), (86.5375326604, 70.6723183393), (82.1086540818, 70.6723183393), align=None)
        Polygon((82.1086540818, -67.0554008335), (82.1086540818, -50.9865246713), (62.4324791894, -50.9865246713), align=None)
        Polygon((-48.5038500365, 39.6114775298), (-48.6785445012, 48.5525242984), (-59.4520705695, 48.5525242984), align=None)
        Polygon((-22.1498279695, 18.0890261751), (-22.3530986101, 28.134258464), (-34.4501124049, 28.134258464), align=None)
        Polygon((-46.9802648754, -38.3672163149), (-36.3887724828, -29.7174975276), (-47.1492672342, -29.7174975276), align=None)
        Polygon((167.2767275423, 135.3301554918), (167.2731652274, 136.606418269), (165.7103944798, 135.3301554918), align=None)
        Polygon((28.7508552022, -23.4798650818), (28.2990693172, -7.597708609), (9.303316664, -7.597708609), align=None)
        Polygon((3.999407865, -3.2661830897), (0, 0), (-9.303316664, -7.597708609), (4.1084698657, -7.597708609), align=None)
        Polygon((27.4453605747, 22.413711136), (34.4501124049, 28.134258464), (27.2826331427, 28.134258464), align=None)
        Polygon((54.8946057694, -50.9865246713), (62.4324791894, -50.9865246713), (54.7574903207, -44.7186170952), align=None)
        Polygon((-22.0087864958, 11.1190360039), (-13.6151461273, 11.1190360039), (-22.1498279695, 18.0890261751), align=None)
        Polygon((125.5329251289, 91.0905823112), (125.5329251289, 102.518555522), (111.5394885443, 91.0905823112), align=None)
        Polygon((168.037501384, -137.2306261303), (168.0247426969, -132.659599185), (162.4403255326, -132.659599185), align=None)
        Polygon((-89.2131418666, -73.1063187122), (-89.2138350726, -72.8579653093), (-89.5179412803, -73.1063187122), align=None)
        Polygon((103.1274646521, -89.2707780004), (109.3111567351, -89.2707780004), (103.1274646521, -84.2207627992), align=None)
        Polygon((27.7666503699, 11.1190360039), (27.4453605747, 22.413711136), (13.6151461273, 11.1190360039), align=None)
        Polygon((125.5329251289, -109.6890419722), (134.313112619, -109.6890419722), (125.5329251289, -102.518555522), align=None)
        Polygon((-70.6894020181, 48.5525242984), (-59.4520705695, 48.5525242984), (-70.8452255019, 57.8569341599), align=None)
        Polygon((125.5329251289, 102.518555522), (137.5831906893, 112.3596057296), (125.5329251289, 112.3596057296), align=None)
        Polygon((3.6372073496, 11.1190360039), (3.2087868782, 28.134258464), (-22.3530986101, 28.134258464), (-22.1498279695, 18.0890261751), (-13.6151461273, 11.1190360039), align=None)
        Polygon((4.1084698657, -7.597708609), (9.303316664, -7.597708609), (3.999407865, -3.2661830897), align=None)
        Polygon((0, 0), (3.8382455607, 3.1345672079), (3.6372073496, 11.1190360039), (-13.6151461273, 11.1190360039), align=None)
        Polygon((-68.9334806791, -56.2956758879), (-62.4324791894, -50.9865246713), (-69.0223944792, -50.9865246713), align=None)
        Polygon((148.2215225697, -132.659599185), (162.4403255326, -132.659599185), (148.2215225697, -121.0475767652), align=None)
        Polygon((148.2215225697, 112.3596057296), (148.2215225697, 121.0475767652), (137.5831906893, 112.3596057296), align=None)
        Polygon((168.0887043476, -155.575), (190.5, -155.575), (168.037501384, -137.2306261303), align=None)
        Polygon((-116.3870543242, 91.0905823112), (-111.5394885443, 91.0905823112), (-116.3870543242, 95.0494276981), align=None)
    extrude(amount=F1_DEPTH)


solid = f1.part
